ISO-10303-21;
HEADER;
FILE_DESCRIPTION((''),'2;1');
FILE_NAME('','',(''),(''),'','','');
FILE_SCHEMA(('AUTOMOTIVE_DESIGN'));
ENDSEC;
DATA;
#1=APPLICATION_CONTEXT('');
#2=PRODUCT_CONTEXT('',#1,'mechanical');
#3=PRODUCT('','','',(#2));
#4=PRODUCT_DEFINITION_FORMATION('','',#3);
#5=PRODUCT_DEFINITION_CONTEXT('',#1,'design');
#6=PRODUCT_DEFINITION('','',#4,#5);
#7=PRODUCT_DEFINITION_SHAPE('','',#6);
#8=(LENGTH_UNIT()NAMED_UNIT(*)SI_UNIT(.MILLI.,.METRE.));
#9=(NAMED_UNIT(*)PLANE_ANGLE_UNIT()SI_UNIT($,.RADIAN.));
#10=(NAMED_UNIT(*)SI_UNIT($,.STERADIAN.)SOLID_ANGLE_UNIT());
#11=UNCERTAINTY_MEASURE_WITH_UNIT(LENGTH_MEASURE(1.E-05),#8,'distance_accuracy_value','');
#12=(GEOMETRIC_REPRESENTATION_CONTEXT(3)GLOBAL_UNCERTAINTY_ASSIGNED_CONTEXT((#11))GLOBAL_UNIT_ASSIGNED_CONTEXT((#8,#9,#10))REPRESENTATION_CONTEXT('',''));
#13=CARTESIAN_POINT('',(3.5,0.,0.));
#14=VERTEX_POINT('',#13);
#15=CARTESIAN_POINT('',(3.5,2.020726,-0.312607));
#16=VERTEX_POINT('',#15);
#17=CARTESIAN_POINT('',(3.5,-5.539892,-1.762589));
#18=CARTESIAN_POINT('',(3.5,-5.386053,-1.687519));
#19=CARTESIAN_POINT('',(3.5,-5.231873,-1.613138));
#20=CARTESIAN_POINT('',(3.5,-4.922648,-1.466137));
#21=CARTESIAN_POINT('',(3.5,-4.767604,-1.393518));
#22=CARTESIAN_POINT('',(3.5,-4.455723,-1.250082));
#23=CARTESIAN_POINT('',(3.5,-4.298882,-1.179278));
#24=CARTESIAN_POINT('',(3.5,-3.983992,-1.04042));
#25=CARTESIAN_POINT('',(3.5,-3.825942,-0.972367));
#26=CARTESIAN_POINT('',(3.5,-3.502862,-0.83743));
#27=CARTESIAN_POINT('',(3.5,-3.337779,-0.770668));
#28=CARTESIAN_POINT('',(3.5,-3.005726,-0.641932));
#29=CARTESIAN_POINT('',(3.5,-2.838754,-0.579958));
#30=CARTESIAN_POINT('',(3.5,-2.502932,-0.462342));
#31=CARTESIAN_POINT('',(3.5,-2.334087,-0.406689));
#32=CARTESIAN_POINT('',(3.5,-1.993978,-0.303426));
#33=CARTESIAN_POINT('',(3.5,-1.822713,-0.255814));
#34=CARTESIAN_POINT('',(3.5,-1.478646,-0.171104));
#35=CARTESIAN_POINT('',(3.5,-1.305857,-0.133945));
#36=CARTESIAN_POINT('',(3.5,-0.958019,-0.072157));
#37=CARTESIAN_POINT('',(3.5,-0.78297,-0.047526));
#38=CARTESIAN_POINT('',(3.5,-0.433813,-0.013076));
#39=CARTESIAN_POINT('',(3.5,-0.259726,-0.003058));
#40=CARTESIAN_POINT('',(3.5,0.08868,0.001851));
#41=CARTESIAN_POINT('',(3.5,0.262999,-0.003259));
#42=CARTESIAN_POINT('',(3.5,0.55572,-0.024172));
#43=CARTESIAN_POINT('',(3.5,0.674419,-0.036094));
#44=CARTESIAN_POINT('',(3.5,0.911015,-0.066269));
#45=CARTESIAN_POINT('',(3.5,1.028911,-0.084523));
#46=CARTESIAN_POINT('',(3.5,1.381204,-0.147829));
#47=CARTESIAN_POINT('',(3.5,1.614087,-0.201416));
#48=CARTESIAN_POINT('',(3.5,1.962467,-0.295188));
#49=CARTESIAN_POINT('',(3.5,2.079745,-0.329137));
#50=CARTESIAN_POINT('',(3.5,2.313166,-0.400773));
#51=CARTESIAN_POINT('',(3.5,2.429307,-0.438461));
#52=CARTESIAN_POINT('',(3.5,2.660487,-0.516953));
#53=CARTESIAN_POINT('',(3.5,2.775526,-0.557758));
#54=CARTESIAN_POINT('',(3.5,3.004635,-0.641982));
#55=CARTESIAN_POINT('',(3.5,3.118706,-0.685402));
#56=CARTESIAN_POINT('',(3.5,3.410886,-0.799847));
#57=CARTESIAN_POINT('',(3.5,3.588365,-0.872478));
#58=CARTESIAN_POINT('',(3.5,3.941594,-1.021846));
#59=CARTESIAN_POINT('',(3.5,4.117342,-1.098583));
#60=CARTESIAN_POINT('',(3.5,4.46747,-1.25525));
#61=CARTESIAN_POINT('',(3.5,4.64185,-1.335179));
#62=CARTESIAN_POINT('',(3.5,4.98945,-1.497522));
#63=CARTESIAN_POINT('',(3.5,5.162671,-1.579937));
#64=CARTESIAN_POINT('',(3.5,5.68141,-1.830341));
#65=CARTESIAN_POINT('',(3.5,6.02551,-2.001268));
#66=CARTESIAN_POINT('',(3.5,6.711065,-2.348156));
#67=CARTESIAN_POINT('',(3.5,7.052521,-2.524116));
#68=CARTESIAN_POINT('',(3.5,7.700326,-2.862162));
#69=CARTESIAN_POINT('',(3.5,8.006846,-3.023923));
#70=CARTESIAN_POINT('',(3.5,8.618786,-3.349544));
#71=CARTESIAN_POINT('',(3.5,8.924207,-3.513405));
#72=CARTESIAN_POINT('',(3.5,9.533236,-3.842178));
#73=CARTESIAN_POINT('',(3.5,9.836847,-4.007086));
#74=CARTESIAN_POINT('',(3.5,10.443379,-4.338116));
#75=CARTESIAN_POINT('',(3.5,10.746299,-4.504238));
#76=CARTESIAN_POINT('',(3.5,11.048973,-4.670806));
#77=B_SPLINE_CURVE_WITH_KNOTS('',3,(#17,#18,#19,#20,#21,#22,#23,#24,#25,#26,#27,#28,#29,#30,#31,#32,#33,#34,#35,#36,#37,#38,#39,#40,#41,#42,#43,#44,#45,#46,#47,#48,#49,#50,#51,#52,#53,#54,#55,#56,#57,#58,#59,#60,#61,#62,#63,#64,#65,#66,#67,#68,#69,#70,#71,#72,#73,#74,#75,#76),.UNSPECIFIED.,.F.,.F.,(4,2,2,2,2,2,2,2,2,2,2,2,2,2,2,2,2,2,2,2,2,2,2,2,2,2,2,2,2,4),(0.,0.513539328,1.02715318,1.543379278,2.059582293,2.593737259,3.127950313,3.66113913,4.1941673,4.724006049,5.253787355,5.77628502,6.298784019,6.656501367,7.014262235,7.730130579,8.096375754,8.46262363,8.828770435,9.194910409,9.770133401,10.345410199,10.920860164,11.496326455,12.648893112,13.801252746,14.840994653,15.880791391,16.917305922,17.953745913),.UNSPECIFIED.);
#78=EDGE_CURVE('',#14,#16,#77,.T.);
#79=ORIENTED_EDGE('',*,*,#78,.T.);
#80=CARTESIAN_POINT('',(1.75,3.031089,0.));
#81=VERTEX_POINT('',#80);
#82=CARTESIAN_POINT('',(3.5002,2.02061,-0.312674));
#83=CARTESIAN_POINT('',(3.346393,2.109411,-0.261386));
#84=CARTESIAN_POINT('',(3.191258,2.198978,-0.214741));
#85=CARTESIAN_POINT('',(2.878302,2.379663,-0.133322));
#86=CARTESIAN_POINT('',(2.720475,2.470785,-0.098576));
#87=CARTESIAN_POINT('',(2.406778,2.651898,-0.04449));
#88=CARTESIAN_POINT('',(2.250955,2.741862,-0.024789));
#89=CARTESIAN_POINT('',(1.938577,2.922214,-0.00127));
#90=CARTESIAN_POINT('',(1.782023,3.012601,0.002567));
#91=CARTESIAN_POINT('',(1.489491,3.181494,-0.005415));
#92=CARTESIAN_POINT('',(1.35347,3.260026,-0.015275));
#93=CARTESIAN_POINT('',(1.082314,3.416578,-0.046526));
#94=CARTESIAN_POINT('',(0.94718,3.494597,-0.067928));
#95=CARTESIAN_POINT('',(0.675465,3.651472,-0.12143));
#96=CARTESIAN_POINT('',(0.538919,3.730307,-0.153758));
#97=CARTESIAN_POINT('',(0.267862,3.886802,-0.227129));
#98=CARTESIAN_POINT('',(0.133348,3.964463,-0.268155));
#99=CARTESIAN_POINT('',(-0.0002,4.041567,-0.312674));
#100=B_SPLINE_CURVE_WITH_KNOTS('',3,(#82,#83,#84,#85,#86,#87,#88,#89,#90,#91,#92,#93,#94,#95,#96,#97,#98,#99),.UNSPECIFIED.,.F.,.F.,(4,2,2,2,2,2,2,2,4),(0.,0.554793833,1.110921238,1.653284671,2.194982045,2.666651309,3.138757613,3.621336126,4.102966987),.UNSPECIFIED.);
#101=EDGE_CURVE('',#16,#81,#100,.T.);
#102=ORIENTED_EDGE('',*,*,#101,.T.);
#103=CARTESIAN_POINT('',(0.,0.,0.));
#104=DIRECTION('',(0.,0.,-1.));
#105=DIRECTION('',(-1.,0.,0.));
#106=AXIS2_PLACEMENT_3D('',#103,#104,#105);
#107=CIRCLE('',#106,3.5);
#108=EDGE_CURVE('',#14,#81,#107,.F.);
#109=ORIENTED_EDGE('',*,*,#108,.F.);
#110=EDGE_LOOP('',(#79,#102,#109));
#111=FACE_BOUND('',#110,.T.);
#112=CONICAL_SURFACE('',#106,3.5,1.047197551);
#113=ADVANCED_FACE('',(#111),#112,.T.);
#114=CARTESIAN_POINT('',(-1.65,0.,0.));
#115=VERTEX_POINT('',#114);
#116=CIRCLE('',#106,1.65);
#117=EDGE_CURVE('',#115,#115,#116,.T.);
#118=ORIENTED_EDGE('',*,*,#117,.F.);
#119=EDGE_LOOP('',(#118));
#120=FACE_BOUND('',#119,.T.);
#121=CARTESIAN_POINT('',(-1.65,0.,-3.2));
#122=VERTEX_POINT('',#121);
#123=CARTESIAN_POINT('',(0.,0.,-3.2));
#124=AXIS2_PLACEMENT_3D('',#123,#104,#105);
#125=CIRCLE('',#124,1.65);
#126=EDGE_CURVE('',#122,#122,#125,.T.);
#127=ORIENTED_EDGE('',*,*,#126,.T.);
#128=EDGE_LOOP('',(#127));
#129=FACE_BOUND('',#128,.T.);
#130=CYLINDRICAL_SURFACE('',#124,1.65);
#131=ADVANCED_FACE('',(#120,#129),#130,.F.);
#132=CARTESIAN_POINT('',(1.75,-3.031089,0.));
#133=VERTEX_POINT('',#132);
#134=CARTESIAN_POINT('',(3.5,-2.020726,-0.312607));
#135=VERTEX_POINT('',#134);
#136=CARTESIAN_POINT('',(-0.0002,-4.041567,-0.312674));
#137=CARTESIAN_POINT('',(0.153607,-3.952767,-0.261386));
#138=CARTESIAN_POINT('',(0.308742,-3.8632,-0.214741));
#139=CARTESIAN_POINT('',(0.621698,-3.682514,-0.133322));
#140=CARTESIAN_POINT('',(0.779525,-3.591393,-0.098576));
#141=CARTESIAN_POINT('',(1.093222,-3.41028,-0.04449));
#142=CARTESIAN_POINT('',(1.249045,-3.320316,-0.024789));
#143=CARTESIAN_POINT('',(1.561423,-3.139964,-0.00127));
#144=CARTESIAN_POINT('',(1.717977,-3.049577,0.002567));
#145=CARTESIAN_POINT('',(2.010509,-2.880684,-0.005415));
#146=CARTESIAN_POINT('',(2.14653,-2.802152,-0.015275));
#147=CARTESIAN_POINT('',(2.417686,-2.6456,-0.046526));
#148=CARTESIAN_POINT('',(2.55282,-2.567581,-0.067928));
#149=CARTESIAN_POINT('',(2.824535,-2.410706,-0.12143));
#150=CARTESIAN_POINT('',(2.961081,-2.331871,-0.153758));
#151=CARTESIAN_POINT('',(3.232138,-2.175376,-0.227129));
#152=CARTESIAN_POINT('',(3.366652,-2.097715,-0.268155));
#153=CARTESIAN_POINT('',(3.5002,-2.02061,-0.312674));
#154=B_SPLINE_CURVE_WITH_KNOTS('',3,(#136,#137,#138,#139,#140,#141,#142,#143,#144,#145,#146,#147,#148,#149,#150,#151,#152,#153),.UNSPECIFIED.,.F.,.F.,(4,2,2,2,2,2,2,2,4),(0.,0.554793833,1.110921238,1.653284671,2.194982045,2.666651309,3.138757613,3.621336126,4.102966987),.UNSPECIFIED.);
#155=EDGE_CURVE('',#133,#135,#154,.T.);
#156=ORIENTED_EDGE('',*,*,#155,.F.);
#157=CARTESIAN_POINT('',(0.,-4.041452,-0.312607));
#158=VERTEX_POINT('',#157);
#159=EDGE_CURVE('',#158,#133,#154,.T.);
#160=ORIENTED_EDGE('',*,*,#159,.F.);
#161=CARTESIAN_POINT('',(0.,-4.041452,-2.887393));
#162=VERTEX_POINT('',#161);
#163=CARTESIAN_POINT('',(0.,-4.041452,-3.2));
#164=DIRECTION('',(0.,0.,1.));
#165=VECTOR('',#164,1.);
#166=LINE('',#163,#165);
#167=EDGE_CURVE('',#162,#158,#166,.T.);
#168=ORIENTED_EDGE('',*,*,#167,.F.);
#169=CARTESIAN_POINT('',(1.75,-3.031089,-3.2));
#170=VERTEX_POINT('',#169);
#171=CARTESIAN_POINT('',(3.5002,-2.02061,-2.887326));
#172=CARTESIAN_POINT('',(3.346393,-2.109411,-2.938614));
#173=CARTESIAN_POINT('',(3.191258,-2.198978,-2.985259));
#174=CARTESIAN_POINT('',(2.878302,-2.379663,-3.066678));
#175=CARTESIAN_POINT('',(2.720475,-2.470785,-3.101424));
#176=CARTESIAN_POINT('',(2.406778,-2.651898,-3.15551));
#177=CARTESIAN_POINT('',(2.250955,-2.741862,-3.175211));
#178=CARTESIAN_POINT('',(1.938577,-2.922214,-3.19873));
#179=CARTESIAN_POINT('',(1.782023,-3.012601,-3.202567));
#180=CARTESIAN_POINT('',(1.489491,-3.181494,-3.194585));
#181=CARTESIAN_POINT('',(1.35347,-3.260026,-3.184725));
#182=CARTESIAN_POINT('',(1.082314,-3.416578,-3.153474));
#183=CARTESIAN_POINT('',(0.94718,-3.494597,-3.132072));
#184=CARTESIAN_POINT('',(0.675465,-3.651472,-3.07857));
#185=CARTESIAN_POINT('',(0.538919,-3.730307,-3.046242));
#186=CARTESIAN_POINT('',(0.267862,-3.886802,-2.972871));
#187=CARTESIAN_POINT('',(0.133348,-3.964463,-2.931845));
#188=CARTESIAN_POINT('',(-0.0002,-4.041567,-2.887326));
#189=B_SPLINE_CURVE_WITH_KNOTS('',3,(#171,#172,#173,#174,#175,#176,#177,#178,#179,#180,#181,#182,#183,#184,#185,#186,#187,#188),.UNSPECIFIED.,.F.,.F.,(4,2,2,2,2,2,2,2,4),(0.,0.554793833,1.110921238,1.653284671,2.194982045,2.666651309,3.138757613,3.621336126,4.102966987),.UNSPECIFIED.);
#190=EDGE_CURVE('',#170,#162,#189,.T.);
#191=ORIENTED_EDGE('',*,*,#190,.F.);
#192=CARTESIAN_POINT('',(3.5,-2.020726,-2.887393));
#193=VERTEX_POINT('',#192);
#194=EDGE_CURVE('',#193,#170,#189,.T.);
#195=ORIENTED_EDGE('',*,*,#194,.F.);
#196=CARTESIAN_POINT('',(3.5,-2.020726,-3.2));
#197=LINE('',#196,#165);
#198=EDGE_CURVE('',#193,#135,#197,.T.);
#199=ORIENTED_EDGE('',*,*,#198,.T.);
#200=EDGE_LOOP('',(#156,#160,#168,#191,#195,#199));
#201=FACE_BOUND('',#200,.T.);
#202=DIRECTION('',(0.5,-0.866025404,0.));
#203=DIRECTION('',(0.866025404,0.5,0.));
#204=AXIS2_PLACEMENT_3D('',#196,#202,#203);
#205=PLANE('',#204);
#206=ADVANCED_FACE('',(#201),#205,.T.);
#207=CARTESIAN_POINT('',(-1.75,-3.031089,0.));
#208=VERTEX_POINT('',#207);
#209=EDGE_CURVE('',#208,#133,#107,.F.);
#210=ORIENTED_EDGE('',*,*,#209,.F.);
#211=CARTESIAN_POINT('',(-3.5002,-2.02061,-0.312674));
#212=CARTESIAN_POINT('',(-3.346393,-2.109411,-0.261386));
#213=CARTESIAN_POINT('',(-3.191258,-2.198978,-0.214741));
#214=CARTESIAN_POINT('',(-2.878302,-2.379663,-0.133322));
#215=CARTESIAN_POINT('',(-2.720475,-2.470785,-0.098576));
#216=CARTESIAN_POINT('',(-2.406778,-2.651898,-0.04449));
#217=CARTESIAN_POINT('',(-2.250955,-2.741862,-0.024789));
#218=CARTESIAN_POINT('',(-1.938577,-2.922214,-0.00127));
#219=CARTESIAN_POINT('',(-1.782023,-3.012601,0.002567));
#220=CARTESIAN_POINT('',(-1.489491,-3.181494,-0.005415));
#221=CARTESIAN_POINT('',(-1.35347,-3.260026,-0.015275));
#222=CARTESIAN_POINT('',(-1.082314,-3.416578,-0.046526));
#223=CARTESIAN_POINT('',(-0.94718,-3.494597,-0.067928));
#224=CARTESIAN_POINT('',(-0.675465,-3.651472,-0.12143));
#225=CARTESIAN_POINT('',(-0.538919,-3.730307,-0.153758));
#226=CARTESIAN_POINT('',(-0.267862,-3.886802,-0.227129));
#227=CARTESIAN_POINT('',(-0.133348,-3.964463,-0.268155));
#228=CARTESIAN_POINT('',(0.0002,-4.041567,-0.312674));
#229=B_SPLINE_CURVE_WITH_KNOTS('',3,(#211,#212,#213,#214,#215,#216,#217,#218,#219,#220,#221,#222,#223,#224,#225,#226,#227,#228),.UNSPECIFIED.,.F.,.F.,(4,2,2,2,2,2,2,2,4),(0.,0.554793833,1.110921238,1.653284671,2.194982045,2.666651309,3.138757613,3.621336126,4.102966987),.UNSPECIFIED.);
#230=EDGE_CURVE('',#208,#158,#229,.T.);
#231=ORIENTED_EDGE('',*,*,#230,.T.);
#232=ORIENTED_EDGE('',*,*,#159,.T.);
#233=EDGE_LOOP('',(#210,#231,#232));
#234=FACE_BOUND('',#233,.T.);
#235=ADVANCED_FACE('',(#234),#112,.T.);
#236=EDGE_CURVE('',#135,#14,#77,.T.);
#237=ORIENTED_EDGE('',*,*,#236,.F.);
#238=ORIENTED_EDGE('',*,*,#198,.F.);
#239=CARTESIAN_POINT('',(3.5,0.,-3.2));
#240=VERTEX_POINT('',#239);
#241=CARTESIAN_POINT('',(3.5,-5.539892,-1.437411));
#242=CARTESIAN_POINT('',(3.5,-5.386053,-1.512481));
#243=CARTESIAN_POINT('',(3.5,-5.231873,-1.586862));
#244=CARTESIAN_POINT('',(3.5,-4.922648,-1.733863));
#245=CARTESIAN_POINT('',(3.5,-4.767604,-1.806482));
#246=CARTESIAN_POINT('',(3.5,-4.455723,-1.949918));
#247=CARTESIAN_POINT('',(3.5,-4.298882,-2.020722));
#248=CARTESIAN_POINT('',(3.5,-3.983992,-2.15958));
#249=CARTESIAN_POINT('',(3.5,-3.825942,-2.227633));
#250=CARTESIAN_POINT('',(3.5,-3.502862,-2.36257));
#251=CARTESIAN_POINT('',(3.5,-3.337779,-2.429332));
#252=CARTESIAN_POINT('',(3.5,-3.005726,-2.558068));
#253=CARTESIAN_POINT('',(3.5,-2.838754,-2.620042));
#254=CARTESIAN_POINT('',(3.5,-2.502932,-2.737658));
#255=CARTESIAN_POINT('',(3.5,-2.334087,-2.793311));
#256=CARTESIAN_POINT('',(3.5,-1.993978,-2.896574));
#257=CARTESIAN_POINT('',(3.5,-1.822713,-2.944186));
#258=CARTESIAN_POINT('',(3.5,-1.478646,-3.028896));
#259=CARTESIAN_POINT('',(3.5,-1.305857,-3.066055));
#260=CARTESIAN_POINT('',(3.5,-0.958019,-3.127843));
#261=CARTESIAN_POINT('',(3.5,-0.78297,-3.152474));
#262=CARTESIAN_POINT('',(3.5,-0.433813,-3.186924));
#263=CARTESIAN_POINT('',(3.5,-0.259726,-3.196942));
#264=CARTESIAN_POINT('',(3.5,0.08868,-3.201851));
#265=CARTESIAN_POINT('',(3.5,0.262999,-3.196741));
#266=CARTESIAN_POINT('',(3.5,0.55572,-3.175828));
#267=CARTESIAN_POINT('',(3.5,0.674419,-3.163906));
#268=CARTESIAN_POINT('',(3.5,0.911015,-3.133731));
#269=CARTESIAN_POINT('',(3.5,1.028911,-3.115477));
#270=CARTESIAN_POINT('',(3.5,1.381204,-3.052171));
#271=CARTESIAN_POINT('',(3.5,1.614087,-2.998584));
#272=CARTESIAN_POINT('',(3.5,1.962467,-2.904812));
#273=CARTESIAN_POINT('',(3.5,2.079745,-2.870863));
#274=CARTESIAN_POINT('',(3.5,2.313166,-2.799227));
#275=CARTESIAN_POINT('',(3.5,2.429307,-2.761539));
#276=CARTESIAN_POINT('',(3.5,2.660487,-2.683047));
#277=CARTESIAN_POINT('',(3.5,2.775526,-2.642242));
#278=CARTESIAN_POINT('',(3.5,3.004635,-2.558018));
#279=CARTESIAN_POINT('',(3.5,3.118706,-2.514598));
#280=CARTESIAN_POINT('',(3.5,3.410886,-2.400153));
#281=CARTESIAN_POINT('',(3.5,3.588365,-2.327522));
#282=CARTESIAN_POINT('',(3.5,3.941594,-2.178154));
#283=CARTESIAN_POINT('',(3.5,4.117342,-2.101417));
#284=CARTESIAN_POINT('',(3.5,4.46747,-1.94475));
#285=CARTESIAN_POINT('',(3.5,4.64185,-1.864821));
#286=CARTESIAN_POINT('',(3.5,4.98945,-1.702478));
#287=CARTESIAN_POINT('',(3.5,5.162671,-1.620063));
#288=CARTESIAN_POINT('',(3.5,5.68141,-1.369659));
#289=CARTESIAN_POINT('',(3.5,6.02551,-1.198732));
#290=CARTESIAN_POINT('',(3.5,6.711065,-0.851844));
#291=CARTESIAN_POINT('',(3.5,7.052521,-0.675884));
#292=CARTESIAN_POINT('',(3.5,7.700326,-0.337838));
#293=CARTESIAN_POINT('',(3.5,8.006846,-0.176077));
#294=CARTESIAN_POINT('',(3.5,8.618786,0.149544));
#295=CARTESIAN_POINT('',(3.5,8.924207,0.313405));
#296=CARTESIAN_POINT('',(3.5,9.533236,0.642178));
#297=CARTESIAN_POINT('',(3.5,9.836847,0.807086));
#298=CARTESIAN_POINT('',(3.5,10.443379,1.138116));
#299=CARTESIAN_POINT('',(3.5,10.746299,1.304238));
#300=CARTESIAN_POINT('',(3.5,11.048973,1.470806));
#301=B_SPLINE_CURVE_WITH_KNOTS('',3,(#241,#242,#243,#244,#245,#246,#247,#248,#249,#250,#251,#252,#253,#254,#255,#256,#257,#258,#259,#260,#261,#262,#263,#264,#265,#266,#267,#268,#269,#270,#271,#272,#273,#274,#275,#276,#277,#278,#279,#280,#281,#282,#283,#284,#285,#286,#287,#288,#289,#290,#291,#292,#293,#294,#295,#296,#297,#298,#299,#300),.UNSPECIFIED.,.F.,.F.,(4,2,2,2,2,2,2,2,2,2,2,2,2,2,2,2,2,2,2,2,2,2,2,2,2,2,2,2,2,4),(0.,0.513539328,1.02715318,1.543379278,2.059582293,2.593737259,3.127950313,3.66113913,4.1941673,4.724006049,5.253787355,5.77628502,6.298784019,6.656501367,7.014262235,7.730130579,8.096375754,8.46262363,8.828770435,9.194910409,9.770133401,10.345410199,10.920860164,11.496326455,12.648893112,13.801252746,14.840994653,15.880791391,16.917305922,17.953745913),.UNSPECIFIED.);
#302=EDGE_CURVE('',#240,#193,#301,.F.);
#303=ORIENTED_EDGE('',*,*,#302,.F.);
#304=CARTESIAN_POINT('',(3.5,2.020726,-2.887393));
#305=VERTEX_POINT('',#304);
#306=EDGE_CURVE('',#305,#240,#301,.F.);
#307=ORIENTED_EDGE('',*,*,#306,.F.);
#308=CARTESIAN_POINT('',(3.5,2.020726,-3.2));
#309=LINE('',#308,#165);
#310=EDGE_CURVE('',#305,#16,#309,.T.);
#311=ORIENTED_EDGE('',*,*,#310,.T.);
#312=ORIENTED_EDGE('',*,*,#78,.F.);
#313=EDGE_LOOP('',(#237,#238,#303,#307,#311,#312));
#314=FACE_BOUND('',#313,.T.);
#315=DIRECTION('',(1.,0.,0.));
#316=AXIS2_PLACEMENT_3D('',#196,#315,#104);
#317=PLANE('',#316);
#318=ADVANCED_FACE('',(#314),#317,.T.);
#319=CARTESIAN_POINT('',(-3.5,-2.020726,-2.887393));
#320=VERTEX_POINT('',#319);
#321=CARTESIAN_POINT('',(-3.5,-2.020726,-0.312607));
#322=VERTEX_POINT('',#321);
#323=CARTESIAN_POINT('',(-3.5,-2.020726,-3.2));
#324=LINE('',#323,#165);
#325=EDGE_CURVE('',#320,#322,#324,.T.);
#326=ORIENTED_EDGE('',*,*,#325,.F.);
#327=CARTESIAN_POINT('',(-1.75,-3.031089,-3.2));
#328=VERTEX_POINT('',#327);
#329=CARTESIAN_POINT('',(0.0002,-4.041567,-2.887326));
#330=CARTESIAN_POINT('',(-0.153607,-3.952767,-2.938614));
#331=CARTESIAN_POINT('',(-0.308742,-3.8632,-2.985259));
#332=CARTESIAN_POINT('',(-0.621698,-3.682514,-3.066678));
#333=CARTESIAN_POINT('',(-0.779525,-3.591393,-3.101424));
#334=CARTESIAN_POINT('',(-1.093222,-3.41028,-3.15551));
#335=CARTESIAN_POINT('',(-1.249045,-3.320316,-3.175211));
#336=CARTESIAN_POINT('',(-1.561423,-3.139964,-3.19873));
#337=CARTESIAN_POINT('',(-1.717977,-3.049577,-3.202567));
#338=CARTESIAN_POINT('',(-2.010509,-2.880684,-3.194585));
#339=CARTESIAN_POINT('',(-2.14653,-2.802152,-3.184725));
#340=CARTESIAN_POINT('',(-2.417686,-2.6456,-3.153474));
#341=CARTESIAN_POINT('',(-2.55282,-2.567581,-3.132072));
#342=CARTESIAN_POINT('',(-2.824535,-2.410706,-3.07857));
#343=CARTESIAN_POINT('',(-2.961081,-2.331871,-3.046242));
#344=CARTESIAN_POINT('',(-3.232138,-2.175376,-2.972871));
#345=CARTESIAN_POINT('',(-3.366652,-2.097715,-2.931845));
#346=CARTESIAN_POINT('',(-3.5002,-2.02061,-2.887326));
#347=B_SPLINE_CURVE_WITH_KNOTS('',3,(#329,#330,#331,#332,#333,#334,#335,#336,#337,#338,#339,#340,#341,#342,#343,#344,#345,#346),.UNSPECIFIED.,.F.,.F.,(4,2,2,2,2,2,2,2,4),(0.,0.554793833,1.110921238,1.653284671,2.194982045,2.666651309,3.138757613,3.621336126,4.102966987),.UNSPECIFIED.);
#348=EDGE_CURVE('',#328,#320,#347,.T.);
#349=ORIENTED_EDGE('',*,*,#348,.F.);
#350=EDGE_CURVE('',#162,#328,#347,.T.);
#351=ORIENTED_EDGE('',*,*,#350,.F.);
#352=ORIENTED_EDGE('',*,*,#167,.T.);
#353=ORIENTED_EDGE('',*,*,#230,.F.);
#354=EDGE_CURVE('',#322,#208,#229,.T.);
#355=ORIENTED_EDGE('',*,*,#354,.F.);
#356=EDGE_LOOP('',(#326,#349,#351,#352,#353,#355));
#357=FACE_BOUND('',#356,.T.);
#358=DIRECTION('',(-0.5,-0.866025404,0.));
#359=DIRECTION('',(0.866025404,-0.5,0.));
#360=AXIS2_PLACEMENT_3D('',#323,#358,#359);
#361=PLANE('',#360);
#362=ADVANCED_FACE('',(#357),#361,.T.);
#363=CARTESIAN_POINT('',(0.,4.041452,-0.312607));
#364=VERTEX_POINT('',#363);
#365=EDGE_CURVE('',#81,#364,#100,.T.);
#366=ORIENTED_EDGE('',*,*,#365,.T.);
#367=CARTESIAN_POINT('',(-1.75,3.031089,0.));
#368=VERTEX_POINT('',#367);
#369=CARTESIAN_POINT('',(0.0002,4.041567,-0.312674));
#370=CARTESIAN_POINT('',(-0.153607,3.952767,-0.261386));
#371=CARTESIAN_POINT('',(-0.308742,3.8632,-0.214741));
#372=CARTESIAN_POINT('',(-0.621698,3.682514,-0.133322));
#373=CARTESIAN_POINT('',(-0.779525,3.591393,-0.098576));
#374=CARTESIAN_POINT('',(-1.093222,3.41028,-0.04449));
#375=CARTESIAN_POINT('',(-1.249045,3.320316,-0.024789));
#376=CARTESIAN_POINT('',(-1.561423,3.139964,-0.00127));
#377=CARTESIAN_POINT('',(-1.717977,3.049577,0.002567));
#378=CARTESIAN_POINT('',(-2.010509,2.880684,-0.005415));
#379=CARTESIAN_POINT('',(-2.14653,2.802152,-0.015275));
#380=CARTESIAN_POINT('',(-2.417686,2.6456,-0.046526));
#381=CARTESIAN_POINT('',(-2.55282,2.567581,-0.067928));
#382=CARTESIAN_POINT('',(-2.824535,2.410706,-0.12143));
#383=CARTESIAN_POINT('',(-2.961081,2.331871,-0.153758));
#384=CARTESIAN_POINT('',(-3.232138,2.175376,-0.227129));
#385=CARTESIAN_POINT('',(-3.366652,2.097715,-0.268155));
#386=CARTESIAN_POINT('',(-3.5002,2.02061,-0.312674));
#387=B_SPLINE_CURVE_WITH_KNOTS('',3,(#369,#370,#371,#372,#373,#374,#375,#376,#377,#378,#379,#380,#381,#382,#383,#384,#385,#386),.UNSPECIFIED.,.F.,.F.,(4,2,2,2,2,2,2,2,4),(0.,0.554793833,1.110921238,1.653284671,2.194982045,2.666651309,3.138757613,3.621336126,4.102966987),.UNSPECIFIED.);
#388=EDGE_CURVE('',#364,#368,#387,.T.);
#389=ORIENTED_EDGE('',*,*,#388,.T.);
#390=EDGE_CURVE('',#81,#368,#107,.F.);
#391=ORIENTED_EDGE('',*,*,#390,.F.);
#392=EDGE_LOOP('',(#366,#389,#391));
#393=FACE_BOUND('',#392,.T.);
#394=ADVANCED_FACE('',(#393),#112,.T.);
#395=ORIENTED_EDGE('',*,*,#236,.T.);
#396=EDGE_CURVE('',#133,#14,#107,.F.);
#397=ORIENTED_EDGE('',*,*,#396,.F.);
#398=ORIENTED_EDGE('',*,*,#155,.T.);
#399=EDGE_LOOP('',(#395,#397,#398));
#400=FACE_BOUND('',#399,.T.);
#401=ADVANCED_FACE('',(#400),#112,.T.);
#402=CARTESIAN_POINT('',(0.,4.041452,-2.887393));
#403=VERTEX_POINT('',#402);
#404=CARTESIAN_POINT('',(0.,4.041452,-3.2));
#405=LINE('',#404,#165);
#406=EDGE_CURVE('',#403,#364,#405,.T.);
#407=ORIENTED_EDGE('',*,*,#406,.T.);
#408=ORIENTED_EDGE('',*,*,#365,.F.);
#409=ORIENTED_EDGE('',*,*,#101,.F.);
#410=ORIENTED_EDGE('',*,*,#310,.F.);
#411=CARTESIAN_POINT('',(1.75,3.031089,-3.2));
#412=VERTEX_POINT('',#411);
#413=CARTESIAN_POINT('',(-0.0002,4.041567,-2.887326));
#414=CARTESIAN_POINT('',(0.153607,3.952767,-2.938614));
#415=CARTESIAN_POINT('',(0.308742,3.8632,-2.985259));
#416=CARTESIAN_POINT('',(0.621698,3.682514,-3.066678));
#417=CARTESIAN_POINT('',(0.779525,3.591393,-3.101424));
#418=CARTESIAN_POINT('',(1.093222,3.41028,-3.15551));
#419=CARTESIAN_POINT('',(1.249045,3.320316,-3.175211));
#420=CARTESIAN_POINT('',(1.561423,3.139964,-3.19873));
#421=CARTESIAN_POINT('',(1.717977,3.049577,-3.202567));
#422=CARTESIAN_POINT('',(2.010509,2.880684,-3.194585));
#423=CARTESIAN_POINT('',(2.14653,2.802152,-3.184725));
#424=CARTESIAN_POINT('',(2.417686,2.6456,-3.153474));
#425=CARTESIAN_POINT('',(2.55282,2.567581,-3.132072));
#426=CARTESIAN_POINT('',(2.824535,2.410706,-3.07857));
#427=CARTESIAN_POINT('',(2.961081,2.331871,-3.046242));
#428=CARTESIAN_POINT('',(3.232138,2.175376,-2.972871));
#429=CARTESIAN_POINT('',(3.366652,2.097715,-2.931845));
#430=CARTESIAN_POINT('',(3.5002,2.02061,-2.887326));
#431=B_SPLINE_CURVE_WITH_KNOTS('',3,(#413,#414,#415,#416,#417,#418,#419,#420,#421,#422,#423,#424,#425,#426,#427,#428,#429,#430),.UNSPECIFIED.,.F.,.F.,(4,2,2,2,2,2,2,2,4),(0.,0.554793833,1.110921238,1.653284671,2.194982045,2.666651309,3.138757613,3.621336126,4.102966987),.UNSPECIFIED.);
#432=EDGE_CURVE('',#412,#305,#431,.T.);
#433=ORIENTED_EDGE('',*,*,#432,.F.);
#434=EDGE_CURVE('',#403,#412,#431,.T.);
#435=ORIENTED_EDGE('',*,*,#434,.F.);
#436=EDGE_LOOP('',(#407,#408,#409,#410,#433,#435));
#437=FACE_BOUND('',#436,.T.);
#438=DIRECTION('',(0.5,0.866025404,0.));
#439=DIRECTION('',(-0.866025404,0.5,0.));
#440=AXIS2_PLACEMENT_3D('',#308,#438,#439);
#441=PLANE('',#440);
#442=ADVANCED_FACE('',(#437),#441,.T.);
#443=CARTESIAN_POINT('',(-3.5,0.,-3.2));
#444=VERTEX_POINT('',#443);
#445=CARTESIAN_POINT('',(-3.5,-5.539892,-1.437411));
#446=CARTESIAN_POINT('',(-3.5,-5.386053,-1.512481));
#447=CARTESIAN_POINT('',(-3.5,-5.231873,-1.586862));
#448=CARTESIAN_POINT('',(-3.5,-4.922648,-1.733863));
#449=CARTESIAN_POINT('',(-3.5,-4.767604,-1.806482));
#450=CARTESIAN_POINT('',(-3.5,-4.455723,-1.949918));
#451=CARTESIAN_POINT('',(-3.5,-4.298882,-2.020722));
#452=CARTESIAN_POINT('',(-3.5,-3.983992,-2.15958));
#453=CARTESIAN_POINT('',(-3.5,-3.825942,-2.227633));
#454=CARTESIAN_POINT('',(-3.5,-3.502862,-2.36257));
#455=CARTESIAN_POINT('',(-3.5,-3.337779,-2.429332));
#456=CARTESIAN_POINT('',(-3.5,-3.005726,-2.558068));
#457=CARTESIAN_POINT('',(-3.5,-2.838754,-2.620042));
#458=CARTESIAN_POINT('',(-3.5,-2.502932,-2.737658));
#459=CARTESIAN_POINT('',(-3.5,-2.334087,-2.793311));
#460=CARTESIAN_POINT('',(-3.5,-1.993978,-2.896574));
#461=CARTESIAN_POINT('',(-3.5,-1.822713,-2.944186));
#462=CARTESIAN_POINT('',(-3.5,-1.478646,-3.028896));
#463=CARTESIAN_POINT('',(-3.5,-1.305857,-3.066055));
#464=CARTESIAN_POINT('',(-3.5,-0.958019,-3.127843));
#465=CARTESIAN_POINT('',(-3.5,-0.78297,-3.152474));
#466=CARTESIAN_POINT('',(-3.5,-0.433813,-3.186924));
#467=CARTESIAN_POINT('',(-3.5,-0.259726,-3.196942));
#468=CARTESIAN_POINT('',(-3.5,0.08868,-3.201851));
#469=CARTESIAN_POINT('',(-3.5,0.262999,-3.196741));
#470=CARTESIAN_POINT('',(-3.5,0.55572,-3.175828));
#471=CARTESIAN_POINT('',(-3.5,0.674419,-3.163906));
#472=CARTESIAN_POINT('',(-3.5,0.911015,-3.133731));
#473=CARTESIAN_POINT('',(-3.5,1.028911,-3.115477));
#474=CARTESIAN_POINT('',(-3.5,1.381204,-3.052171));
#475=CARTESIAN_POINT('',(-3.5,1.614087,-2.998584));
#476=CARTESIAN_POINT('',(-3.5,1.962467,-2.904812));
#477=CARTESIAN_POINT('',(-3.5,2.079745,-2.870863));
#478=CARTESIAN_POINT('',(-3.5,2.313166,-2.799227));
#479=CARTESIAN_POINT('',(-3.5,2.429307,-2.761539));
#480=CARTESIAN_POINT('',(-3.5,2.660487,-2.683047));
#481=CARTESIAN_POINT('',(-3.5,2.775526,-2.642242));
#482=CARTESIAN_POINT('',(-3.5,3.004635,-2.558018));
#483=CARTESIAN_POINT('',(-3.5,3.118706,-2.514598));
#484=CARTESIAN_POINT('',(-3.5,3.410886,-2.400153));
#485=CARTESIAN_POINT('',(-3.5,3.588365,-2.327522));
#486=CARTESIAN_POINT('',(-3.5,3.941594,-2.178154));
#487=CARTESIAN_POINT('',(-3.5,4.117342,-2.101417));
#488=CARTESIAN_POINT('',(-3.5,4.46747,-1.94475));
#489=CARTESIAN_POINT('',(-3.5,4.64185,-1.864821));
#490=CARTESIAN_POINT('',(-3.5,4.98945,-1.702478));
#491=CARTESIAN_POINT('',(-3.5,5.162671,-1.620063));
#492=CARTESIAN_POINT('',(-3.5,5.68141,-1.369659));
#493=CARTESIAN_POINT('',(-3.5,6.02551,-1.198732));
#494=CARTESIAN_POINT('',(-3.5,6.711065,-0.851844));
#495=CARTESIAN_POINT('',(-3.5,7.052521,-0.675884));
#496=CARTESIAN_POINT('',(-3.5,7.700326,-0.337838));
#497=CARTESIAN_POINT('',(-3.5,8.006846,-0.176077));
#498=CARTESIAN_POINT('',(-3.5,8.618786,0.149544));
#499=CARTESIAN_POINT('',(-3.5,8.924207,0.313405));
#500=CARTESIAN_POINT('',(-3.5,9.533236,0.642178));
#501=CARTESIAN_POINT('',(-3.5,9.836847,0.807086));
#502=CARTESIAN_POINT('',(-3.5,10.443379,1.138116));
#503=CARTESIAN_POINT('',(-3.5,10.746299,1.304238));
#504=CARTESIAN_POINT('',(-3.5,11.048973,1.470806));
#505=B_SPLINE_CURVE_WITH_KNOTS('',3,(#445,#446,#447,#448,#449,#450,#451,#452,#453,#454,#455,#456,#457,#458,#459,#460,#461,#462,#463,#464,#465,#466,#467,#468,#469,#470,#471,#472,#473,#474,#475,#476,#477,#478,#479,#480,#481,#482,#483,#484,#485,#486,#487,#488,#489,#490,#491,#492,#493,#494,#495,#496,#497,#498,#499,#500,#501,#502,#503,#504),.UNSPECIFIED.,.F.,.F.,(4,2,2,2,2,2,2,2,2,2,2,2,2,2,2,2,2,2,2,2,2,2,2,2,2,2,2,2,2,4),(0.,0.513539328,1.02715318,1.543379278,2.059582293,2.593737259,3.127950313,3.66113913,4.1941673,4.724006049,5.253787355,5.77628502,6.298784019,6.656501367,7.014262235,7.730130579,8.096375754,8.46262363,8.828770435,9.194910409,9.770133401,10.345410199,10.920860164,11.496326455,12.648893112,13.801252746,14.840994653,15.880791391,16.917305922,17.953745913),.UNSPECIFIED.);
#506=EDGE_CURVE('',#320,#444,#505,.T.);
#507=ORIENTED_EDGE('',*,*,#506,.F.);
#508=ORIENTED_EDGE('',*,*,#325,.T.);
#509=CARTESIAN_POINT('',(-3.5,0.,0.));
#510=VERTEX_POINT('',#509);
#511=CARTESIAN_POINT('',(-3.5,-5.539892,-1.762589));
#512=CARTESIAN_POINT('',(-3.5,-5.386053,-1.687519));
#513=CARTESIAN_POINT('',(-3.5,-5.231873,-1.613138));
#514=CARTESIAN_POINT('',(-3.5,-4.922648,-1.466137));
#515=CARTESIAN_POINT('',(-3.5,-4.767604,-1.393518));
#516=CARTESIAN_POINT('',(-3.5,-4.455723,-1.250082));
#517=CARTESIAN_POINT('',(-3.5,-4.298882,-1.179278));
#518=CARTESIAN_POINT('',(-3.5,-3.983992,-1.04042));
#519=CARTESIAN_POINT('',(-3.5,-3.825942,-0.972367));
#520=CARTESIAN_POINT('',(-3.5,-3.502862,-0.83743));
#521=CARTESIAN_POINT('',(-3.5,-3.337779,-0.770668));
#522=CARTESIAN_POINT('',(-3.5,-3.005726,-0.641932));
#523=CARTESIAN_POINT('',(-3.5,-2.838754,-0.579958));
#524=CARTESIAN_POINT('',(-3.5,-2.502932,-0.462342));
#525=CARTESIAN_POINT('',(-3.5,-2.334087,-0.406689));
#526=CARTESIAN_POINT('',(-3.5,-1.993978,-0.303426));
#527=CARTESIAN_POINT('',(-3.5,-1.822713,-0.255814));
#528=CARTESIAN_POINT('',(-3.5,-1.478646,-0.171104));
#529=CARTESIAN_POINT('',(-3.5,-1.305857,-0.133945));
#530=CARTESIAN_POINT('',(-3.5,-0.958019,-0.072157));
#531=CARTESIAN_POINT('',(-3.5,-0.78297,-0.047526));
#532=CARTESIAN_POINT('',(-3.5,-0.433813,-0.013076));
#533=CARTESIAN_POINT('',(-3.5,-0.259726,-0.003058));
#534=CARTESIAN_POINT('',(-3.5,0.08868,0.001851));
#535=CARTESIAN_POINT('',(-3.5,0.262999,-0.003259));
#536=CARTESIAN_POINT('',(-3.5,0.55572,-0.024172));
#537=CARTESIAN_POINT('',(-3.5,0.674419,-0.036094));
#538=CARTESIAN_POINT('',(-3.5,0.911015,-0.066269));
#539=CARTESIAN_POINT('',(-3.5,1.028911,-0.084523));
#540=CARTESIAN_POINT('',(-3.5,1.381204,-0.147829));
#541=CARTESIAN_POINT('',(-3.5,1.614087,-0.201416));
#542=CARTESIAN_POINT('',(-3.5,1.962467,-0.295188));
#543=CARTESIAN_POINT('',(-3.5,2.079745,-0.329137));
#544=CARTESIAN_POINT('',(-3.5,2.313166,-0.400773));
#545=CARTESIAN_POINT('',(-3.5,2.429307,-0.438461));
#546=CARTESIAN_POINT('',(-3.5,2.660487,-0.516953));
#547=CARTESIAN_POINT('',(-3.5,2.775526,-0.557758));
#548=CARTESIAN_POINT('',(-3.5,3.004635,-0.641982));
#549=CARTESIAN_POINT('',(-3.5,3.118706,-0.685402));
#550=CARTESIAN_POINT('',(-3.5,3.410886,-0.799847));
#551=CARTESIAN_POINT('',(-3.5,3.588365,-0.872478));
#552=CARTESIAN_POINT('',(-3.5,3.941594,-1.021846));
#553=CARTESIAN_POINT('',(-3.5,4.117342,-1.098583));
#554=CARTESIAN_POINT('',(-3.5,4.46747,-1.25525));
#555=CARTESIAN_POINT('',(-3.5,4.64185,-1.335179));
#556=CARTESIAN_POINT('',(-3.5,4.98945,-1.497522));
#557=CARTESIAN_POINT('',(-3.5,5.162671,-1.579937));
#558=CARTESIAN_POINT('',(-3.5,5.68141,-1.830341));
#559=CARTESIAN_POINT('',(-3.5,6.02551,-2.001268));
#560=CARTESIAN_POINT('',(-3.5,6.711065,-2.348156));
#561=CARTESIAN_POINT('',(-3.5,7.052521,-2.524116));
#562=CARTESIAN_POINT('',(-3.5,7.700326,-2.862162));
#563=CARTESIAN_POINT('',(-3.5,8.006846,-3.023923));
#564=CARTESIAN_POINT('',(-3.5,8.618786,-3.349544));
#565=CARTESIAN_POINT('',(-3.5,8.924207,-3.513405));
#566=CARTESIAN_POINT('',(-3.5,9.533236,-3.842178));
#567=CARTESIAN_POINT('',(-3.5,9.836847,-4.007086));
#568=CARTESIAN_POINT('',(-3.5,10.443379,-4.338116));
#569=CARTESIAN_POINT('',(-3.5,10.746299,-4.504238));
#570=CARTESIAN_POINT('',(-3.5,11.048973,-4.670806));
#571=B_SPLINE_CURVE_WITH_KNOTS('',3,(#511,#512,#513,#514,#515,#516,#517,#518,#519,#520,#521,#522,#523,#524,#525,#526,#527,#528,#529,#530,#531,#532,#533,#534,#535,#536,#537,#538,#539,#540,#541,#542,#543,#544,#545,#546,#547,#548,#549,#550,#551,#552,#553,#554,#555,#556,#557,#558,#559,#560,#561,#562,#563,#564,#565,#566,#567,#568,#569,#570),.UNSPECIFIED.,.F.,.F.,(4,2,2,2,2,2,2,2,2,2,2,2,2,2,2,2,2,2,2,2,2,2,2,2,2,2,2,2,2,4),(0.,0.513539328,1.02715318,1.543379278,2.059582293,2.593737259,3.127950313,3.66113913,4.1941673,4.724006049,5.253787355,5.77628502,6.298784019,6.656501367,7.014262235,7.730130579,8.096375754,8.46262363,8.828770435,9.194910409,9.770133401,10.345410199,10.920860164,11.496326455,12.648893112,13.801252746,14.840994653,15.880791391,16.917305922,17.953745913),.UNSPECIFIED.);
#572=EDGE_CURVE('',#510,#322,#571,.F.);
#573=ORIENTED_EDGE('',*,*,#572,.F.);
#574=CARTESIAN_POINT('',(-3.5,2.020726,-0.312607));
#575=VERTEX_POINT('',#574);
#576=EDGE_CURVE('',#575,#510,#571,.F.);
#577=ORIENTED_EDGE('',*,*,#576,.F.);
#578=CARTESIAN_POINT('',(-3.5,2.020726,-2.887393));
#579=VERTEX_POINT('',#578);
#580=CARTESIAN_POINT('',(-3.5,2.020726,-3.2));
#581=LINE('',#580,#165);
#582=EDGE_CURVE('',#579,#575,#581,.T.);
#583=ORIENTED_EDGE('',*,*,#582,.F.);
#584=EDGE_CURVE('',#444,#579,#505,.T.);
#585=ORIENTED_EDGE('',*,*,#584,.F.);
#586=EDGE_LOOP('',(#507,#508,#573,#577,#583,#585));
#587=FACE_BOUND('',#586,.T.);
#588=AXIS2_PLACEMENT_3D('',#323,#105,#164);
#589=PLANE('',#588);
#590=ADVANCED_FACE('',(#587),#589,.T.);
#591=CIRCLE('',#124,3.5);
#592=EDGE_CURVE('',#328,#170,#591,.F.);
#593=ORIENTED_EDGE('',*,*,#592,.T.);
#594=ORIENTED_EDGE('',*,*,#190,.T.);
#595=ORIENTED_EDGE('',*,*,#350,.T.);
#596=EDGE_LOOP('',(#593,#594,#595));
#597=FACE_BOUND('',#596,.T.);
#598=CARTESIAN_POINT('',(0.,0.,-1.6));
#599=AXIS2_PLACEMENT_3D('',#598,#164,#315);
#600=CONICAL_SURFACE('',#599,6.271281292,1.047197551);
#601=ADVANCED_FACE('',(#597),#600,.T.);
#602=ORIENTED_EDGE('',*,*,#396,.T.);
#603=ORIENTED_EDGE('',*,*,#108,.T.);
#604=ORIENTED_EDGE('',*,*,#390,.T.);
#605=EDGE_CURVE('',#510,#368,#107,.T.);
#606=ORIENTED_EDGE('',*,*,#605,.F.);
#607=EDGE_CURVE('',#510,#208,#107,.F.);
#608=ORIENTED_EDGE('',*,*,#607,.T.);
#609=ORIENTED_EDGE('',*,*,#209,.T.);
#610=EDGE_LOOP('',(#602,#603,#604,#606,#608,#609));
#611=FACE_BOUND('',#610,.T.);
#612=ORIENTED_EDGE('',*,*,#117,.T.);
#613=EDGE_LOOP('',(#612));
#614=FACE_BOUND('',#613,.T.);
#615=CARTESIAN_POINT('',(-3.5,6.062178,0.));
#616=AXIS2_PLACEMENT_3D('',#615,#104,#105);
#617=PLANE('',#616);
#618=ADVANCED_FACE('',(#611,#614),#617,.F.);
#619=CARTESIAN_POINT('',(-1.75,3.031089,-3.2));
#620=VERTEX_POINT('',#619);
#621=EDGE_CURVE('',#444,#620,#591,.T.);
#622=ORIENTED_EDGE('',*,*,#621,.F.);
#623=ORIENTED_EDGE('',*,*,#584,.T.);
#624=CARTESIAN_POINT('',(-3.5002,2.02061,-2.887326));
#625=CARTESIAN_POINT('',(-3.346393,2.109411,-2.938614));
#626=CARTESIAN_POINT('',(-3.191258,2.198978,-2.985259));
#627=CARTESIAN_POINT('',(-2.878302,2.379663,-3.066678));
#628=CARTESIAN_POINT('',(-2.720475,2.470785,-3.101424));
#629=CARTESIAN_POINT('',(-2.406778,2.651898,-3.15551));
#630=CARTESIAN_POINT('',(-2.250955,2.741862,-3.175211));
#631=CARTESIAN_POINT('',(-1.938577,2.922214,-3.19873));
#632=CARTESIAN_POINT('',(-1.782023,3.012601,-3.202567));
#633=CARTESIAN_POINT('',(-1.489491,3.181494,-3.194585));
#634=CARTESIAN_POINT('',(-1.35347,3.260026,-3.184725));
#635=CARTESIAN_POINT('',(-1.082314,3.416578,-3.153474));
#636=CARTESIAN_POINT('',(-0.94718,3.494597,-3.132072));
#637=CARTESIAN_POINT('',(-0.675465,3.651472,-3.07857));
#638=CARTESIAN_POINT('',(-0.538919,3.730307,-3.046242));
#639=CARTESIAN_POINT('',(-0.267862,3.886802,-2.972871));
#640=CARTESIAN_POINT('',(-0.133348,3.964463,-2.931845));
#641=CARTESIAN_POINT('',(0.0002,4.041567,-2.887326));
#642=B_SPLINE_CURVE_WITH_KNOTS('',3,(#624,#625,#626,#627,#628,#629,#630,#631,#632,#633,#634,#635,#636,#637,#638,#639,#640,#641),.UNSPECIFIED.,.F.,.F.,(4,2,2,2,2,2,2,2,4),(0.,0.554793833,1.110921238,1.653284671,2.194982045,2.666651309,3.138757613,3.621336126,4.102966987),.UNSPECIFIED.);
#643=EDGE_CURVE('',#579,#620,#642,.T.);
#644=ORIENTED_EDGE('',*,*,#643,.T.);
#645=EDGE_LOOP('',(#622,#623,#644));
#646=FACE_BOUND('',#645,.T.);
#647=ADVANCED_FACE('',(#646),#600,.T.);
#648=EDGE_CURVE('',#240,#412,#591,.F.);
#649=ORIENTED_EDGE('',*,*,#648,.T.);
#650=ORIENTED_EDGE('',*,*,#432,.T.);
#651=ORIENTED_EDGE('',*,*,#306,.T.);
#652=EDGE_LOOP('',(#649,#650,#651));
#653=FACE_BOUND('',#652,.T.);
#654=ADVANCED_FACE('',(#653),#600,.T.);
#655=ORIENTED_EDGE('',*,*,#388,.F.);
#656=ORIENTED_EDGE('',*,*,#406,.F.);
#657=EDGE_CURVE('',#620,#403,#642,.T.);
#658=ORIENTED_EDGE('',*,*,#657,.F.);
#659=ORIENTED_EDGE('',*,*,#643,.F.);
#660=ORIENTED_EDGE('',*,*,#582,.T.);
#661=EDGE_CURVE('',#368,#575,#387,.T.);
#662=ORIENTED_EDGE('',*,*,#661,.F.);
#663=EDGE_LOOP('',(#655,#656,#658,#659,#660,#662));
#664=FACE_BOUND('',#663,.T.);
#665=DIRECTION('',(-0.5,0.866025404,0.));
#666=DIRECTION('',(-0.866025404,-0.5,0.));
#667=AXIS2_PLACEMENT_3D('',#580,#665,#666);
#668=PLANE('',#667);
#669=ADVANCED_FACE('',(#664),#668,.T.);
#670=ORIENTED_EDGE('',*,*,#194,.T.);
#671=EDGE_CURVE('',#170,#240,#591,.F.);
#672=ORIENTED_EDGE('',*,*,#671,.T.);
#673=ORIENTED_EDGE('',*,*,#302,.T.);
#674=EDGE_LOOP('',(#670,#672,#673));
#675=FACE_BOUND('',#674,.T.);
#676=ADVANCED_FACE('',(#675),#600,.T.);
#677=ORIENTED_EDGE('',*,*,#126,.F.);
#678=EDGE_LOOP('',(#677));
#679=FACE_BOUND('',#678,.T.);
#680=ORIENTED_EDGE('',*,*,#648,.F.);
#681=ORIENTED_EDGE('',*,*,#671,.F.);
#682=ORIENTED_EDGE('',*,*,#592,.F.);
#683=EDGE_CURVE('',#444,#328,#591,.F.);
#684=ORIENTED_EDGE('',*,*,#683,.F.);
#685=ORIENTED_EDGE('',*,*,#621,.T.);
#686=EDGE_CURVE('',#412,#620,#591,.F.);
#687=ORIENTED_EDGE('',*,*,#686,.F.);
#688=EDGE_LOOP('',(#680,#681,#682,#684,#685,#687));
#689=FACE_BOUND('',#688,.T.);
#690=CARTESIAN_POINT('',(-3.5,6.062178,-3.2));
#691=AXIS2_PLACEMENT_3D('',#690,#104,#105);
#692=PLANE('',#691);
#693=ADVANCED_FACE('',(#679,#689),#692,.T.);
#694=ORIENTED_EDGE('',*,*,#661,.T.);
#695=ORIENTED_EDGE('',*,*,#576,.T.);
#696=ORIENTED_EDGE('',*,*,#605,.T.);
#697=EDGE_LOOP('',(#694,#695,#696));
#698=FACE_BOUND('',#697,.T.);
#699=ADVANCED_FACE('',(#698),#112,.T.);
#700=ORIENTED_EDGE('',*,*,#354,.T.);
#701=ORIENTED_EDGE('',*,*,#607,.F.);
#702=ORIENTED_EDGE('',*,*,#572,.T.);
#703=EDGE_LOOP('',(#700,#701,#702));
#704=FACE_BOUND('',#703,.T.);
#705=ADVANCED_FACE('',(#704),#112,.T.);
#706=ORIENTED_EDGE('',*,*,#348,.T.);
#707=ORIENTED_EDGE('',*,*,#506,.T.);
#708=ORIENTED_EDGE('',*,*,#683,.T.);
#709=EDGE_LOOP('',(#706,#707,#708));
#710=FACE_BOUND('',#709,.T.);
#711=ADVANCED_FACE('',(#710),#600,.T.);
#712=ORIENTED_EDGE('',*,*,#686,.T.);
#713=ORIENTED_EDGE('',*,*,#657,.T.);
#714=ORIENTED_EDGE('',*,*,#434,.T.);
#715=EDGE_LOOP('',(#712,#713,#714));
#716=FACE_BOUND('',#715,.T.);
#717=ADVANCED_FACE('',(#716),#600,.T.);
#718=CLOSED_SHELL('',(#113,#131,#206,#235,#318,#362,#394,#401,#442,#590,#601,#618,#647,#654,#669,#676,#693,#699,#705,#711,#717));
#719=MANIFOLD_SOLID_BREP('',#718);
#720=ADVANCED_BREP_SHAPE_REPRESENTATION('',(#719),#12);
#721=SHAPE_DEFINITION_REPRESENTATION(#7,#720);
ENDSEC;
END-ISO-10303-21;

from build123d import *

# Parameters (mm, degrees)
BASE_EXTRUSION_DEPTH  = 3.2
TROU_TARAUD_M41_D     = 3.3
TROU_TARAUD_M41_DEPTH = 3.2


with BuildPart() as part:
    # Esquisse1 → Base-Extrusion (new body)
    with BuildSketch(Plane.XY):
        Polygon((3.5, -2.020725942), (3.5, 2.020725942), (0, 4.041451884), (-3.5, 2.020725942), (-3.5, -2.020725942), (0, -4.041451884), align=None)
    extrude(amount=-BASE_EXTRUSION_DEPTH)

    # Esquisse2 → Enlèvement de matière-Révolution1 (revolve, cut)
    with BuildSketch(Plane(origin=(0, 0, 0), x_dir=(1, 0, 0), z_dir=(0, 1, 0))):
        Polygon((-3.5, 0), (-7.271281292, 0), (-7.271281292, 3.2), (-3.5, 3.2), (-6.271281292, 1.6), align=None)
    revolve(axis=Axis((0, 0, -3.2), (0, 0, 1)), mode=Mode.SUBTRACT)

    # Trou taraudé M41
    with Locations(Plane(origin=(0, 0, -3.2), x_dir=(-1, 0, 0), z_dir=(0, 0, -1))):
        with Locations((0, 0)):
            Hole(TROU_TARAUD_M41_D / 2, depth=TROU_TARAUD_M41_DEPTH)


solid = part.part
